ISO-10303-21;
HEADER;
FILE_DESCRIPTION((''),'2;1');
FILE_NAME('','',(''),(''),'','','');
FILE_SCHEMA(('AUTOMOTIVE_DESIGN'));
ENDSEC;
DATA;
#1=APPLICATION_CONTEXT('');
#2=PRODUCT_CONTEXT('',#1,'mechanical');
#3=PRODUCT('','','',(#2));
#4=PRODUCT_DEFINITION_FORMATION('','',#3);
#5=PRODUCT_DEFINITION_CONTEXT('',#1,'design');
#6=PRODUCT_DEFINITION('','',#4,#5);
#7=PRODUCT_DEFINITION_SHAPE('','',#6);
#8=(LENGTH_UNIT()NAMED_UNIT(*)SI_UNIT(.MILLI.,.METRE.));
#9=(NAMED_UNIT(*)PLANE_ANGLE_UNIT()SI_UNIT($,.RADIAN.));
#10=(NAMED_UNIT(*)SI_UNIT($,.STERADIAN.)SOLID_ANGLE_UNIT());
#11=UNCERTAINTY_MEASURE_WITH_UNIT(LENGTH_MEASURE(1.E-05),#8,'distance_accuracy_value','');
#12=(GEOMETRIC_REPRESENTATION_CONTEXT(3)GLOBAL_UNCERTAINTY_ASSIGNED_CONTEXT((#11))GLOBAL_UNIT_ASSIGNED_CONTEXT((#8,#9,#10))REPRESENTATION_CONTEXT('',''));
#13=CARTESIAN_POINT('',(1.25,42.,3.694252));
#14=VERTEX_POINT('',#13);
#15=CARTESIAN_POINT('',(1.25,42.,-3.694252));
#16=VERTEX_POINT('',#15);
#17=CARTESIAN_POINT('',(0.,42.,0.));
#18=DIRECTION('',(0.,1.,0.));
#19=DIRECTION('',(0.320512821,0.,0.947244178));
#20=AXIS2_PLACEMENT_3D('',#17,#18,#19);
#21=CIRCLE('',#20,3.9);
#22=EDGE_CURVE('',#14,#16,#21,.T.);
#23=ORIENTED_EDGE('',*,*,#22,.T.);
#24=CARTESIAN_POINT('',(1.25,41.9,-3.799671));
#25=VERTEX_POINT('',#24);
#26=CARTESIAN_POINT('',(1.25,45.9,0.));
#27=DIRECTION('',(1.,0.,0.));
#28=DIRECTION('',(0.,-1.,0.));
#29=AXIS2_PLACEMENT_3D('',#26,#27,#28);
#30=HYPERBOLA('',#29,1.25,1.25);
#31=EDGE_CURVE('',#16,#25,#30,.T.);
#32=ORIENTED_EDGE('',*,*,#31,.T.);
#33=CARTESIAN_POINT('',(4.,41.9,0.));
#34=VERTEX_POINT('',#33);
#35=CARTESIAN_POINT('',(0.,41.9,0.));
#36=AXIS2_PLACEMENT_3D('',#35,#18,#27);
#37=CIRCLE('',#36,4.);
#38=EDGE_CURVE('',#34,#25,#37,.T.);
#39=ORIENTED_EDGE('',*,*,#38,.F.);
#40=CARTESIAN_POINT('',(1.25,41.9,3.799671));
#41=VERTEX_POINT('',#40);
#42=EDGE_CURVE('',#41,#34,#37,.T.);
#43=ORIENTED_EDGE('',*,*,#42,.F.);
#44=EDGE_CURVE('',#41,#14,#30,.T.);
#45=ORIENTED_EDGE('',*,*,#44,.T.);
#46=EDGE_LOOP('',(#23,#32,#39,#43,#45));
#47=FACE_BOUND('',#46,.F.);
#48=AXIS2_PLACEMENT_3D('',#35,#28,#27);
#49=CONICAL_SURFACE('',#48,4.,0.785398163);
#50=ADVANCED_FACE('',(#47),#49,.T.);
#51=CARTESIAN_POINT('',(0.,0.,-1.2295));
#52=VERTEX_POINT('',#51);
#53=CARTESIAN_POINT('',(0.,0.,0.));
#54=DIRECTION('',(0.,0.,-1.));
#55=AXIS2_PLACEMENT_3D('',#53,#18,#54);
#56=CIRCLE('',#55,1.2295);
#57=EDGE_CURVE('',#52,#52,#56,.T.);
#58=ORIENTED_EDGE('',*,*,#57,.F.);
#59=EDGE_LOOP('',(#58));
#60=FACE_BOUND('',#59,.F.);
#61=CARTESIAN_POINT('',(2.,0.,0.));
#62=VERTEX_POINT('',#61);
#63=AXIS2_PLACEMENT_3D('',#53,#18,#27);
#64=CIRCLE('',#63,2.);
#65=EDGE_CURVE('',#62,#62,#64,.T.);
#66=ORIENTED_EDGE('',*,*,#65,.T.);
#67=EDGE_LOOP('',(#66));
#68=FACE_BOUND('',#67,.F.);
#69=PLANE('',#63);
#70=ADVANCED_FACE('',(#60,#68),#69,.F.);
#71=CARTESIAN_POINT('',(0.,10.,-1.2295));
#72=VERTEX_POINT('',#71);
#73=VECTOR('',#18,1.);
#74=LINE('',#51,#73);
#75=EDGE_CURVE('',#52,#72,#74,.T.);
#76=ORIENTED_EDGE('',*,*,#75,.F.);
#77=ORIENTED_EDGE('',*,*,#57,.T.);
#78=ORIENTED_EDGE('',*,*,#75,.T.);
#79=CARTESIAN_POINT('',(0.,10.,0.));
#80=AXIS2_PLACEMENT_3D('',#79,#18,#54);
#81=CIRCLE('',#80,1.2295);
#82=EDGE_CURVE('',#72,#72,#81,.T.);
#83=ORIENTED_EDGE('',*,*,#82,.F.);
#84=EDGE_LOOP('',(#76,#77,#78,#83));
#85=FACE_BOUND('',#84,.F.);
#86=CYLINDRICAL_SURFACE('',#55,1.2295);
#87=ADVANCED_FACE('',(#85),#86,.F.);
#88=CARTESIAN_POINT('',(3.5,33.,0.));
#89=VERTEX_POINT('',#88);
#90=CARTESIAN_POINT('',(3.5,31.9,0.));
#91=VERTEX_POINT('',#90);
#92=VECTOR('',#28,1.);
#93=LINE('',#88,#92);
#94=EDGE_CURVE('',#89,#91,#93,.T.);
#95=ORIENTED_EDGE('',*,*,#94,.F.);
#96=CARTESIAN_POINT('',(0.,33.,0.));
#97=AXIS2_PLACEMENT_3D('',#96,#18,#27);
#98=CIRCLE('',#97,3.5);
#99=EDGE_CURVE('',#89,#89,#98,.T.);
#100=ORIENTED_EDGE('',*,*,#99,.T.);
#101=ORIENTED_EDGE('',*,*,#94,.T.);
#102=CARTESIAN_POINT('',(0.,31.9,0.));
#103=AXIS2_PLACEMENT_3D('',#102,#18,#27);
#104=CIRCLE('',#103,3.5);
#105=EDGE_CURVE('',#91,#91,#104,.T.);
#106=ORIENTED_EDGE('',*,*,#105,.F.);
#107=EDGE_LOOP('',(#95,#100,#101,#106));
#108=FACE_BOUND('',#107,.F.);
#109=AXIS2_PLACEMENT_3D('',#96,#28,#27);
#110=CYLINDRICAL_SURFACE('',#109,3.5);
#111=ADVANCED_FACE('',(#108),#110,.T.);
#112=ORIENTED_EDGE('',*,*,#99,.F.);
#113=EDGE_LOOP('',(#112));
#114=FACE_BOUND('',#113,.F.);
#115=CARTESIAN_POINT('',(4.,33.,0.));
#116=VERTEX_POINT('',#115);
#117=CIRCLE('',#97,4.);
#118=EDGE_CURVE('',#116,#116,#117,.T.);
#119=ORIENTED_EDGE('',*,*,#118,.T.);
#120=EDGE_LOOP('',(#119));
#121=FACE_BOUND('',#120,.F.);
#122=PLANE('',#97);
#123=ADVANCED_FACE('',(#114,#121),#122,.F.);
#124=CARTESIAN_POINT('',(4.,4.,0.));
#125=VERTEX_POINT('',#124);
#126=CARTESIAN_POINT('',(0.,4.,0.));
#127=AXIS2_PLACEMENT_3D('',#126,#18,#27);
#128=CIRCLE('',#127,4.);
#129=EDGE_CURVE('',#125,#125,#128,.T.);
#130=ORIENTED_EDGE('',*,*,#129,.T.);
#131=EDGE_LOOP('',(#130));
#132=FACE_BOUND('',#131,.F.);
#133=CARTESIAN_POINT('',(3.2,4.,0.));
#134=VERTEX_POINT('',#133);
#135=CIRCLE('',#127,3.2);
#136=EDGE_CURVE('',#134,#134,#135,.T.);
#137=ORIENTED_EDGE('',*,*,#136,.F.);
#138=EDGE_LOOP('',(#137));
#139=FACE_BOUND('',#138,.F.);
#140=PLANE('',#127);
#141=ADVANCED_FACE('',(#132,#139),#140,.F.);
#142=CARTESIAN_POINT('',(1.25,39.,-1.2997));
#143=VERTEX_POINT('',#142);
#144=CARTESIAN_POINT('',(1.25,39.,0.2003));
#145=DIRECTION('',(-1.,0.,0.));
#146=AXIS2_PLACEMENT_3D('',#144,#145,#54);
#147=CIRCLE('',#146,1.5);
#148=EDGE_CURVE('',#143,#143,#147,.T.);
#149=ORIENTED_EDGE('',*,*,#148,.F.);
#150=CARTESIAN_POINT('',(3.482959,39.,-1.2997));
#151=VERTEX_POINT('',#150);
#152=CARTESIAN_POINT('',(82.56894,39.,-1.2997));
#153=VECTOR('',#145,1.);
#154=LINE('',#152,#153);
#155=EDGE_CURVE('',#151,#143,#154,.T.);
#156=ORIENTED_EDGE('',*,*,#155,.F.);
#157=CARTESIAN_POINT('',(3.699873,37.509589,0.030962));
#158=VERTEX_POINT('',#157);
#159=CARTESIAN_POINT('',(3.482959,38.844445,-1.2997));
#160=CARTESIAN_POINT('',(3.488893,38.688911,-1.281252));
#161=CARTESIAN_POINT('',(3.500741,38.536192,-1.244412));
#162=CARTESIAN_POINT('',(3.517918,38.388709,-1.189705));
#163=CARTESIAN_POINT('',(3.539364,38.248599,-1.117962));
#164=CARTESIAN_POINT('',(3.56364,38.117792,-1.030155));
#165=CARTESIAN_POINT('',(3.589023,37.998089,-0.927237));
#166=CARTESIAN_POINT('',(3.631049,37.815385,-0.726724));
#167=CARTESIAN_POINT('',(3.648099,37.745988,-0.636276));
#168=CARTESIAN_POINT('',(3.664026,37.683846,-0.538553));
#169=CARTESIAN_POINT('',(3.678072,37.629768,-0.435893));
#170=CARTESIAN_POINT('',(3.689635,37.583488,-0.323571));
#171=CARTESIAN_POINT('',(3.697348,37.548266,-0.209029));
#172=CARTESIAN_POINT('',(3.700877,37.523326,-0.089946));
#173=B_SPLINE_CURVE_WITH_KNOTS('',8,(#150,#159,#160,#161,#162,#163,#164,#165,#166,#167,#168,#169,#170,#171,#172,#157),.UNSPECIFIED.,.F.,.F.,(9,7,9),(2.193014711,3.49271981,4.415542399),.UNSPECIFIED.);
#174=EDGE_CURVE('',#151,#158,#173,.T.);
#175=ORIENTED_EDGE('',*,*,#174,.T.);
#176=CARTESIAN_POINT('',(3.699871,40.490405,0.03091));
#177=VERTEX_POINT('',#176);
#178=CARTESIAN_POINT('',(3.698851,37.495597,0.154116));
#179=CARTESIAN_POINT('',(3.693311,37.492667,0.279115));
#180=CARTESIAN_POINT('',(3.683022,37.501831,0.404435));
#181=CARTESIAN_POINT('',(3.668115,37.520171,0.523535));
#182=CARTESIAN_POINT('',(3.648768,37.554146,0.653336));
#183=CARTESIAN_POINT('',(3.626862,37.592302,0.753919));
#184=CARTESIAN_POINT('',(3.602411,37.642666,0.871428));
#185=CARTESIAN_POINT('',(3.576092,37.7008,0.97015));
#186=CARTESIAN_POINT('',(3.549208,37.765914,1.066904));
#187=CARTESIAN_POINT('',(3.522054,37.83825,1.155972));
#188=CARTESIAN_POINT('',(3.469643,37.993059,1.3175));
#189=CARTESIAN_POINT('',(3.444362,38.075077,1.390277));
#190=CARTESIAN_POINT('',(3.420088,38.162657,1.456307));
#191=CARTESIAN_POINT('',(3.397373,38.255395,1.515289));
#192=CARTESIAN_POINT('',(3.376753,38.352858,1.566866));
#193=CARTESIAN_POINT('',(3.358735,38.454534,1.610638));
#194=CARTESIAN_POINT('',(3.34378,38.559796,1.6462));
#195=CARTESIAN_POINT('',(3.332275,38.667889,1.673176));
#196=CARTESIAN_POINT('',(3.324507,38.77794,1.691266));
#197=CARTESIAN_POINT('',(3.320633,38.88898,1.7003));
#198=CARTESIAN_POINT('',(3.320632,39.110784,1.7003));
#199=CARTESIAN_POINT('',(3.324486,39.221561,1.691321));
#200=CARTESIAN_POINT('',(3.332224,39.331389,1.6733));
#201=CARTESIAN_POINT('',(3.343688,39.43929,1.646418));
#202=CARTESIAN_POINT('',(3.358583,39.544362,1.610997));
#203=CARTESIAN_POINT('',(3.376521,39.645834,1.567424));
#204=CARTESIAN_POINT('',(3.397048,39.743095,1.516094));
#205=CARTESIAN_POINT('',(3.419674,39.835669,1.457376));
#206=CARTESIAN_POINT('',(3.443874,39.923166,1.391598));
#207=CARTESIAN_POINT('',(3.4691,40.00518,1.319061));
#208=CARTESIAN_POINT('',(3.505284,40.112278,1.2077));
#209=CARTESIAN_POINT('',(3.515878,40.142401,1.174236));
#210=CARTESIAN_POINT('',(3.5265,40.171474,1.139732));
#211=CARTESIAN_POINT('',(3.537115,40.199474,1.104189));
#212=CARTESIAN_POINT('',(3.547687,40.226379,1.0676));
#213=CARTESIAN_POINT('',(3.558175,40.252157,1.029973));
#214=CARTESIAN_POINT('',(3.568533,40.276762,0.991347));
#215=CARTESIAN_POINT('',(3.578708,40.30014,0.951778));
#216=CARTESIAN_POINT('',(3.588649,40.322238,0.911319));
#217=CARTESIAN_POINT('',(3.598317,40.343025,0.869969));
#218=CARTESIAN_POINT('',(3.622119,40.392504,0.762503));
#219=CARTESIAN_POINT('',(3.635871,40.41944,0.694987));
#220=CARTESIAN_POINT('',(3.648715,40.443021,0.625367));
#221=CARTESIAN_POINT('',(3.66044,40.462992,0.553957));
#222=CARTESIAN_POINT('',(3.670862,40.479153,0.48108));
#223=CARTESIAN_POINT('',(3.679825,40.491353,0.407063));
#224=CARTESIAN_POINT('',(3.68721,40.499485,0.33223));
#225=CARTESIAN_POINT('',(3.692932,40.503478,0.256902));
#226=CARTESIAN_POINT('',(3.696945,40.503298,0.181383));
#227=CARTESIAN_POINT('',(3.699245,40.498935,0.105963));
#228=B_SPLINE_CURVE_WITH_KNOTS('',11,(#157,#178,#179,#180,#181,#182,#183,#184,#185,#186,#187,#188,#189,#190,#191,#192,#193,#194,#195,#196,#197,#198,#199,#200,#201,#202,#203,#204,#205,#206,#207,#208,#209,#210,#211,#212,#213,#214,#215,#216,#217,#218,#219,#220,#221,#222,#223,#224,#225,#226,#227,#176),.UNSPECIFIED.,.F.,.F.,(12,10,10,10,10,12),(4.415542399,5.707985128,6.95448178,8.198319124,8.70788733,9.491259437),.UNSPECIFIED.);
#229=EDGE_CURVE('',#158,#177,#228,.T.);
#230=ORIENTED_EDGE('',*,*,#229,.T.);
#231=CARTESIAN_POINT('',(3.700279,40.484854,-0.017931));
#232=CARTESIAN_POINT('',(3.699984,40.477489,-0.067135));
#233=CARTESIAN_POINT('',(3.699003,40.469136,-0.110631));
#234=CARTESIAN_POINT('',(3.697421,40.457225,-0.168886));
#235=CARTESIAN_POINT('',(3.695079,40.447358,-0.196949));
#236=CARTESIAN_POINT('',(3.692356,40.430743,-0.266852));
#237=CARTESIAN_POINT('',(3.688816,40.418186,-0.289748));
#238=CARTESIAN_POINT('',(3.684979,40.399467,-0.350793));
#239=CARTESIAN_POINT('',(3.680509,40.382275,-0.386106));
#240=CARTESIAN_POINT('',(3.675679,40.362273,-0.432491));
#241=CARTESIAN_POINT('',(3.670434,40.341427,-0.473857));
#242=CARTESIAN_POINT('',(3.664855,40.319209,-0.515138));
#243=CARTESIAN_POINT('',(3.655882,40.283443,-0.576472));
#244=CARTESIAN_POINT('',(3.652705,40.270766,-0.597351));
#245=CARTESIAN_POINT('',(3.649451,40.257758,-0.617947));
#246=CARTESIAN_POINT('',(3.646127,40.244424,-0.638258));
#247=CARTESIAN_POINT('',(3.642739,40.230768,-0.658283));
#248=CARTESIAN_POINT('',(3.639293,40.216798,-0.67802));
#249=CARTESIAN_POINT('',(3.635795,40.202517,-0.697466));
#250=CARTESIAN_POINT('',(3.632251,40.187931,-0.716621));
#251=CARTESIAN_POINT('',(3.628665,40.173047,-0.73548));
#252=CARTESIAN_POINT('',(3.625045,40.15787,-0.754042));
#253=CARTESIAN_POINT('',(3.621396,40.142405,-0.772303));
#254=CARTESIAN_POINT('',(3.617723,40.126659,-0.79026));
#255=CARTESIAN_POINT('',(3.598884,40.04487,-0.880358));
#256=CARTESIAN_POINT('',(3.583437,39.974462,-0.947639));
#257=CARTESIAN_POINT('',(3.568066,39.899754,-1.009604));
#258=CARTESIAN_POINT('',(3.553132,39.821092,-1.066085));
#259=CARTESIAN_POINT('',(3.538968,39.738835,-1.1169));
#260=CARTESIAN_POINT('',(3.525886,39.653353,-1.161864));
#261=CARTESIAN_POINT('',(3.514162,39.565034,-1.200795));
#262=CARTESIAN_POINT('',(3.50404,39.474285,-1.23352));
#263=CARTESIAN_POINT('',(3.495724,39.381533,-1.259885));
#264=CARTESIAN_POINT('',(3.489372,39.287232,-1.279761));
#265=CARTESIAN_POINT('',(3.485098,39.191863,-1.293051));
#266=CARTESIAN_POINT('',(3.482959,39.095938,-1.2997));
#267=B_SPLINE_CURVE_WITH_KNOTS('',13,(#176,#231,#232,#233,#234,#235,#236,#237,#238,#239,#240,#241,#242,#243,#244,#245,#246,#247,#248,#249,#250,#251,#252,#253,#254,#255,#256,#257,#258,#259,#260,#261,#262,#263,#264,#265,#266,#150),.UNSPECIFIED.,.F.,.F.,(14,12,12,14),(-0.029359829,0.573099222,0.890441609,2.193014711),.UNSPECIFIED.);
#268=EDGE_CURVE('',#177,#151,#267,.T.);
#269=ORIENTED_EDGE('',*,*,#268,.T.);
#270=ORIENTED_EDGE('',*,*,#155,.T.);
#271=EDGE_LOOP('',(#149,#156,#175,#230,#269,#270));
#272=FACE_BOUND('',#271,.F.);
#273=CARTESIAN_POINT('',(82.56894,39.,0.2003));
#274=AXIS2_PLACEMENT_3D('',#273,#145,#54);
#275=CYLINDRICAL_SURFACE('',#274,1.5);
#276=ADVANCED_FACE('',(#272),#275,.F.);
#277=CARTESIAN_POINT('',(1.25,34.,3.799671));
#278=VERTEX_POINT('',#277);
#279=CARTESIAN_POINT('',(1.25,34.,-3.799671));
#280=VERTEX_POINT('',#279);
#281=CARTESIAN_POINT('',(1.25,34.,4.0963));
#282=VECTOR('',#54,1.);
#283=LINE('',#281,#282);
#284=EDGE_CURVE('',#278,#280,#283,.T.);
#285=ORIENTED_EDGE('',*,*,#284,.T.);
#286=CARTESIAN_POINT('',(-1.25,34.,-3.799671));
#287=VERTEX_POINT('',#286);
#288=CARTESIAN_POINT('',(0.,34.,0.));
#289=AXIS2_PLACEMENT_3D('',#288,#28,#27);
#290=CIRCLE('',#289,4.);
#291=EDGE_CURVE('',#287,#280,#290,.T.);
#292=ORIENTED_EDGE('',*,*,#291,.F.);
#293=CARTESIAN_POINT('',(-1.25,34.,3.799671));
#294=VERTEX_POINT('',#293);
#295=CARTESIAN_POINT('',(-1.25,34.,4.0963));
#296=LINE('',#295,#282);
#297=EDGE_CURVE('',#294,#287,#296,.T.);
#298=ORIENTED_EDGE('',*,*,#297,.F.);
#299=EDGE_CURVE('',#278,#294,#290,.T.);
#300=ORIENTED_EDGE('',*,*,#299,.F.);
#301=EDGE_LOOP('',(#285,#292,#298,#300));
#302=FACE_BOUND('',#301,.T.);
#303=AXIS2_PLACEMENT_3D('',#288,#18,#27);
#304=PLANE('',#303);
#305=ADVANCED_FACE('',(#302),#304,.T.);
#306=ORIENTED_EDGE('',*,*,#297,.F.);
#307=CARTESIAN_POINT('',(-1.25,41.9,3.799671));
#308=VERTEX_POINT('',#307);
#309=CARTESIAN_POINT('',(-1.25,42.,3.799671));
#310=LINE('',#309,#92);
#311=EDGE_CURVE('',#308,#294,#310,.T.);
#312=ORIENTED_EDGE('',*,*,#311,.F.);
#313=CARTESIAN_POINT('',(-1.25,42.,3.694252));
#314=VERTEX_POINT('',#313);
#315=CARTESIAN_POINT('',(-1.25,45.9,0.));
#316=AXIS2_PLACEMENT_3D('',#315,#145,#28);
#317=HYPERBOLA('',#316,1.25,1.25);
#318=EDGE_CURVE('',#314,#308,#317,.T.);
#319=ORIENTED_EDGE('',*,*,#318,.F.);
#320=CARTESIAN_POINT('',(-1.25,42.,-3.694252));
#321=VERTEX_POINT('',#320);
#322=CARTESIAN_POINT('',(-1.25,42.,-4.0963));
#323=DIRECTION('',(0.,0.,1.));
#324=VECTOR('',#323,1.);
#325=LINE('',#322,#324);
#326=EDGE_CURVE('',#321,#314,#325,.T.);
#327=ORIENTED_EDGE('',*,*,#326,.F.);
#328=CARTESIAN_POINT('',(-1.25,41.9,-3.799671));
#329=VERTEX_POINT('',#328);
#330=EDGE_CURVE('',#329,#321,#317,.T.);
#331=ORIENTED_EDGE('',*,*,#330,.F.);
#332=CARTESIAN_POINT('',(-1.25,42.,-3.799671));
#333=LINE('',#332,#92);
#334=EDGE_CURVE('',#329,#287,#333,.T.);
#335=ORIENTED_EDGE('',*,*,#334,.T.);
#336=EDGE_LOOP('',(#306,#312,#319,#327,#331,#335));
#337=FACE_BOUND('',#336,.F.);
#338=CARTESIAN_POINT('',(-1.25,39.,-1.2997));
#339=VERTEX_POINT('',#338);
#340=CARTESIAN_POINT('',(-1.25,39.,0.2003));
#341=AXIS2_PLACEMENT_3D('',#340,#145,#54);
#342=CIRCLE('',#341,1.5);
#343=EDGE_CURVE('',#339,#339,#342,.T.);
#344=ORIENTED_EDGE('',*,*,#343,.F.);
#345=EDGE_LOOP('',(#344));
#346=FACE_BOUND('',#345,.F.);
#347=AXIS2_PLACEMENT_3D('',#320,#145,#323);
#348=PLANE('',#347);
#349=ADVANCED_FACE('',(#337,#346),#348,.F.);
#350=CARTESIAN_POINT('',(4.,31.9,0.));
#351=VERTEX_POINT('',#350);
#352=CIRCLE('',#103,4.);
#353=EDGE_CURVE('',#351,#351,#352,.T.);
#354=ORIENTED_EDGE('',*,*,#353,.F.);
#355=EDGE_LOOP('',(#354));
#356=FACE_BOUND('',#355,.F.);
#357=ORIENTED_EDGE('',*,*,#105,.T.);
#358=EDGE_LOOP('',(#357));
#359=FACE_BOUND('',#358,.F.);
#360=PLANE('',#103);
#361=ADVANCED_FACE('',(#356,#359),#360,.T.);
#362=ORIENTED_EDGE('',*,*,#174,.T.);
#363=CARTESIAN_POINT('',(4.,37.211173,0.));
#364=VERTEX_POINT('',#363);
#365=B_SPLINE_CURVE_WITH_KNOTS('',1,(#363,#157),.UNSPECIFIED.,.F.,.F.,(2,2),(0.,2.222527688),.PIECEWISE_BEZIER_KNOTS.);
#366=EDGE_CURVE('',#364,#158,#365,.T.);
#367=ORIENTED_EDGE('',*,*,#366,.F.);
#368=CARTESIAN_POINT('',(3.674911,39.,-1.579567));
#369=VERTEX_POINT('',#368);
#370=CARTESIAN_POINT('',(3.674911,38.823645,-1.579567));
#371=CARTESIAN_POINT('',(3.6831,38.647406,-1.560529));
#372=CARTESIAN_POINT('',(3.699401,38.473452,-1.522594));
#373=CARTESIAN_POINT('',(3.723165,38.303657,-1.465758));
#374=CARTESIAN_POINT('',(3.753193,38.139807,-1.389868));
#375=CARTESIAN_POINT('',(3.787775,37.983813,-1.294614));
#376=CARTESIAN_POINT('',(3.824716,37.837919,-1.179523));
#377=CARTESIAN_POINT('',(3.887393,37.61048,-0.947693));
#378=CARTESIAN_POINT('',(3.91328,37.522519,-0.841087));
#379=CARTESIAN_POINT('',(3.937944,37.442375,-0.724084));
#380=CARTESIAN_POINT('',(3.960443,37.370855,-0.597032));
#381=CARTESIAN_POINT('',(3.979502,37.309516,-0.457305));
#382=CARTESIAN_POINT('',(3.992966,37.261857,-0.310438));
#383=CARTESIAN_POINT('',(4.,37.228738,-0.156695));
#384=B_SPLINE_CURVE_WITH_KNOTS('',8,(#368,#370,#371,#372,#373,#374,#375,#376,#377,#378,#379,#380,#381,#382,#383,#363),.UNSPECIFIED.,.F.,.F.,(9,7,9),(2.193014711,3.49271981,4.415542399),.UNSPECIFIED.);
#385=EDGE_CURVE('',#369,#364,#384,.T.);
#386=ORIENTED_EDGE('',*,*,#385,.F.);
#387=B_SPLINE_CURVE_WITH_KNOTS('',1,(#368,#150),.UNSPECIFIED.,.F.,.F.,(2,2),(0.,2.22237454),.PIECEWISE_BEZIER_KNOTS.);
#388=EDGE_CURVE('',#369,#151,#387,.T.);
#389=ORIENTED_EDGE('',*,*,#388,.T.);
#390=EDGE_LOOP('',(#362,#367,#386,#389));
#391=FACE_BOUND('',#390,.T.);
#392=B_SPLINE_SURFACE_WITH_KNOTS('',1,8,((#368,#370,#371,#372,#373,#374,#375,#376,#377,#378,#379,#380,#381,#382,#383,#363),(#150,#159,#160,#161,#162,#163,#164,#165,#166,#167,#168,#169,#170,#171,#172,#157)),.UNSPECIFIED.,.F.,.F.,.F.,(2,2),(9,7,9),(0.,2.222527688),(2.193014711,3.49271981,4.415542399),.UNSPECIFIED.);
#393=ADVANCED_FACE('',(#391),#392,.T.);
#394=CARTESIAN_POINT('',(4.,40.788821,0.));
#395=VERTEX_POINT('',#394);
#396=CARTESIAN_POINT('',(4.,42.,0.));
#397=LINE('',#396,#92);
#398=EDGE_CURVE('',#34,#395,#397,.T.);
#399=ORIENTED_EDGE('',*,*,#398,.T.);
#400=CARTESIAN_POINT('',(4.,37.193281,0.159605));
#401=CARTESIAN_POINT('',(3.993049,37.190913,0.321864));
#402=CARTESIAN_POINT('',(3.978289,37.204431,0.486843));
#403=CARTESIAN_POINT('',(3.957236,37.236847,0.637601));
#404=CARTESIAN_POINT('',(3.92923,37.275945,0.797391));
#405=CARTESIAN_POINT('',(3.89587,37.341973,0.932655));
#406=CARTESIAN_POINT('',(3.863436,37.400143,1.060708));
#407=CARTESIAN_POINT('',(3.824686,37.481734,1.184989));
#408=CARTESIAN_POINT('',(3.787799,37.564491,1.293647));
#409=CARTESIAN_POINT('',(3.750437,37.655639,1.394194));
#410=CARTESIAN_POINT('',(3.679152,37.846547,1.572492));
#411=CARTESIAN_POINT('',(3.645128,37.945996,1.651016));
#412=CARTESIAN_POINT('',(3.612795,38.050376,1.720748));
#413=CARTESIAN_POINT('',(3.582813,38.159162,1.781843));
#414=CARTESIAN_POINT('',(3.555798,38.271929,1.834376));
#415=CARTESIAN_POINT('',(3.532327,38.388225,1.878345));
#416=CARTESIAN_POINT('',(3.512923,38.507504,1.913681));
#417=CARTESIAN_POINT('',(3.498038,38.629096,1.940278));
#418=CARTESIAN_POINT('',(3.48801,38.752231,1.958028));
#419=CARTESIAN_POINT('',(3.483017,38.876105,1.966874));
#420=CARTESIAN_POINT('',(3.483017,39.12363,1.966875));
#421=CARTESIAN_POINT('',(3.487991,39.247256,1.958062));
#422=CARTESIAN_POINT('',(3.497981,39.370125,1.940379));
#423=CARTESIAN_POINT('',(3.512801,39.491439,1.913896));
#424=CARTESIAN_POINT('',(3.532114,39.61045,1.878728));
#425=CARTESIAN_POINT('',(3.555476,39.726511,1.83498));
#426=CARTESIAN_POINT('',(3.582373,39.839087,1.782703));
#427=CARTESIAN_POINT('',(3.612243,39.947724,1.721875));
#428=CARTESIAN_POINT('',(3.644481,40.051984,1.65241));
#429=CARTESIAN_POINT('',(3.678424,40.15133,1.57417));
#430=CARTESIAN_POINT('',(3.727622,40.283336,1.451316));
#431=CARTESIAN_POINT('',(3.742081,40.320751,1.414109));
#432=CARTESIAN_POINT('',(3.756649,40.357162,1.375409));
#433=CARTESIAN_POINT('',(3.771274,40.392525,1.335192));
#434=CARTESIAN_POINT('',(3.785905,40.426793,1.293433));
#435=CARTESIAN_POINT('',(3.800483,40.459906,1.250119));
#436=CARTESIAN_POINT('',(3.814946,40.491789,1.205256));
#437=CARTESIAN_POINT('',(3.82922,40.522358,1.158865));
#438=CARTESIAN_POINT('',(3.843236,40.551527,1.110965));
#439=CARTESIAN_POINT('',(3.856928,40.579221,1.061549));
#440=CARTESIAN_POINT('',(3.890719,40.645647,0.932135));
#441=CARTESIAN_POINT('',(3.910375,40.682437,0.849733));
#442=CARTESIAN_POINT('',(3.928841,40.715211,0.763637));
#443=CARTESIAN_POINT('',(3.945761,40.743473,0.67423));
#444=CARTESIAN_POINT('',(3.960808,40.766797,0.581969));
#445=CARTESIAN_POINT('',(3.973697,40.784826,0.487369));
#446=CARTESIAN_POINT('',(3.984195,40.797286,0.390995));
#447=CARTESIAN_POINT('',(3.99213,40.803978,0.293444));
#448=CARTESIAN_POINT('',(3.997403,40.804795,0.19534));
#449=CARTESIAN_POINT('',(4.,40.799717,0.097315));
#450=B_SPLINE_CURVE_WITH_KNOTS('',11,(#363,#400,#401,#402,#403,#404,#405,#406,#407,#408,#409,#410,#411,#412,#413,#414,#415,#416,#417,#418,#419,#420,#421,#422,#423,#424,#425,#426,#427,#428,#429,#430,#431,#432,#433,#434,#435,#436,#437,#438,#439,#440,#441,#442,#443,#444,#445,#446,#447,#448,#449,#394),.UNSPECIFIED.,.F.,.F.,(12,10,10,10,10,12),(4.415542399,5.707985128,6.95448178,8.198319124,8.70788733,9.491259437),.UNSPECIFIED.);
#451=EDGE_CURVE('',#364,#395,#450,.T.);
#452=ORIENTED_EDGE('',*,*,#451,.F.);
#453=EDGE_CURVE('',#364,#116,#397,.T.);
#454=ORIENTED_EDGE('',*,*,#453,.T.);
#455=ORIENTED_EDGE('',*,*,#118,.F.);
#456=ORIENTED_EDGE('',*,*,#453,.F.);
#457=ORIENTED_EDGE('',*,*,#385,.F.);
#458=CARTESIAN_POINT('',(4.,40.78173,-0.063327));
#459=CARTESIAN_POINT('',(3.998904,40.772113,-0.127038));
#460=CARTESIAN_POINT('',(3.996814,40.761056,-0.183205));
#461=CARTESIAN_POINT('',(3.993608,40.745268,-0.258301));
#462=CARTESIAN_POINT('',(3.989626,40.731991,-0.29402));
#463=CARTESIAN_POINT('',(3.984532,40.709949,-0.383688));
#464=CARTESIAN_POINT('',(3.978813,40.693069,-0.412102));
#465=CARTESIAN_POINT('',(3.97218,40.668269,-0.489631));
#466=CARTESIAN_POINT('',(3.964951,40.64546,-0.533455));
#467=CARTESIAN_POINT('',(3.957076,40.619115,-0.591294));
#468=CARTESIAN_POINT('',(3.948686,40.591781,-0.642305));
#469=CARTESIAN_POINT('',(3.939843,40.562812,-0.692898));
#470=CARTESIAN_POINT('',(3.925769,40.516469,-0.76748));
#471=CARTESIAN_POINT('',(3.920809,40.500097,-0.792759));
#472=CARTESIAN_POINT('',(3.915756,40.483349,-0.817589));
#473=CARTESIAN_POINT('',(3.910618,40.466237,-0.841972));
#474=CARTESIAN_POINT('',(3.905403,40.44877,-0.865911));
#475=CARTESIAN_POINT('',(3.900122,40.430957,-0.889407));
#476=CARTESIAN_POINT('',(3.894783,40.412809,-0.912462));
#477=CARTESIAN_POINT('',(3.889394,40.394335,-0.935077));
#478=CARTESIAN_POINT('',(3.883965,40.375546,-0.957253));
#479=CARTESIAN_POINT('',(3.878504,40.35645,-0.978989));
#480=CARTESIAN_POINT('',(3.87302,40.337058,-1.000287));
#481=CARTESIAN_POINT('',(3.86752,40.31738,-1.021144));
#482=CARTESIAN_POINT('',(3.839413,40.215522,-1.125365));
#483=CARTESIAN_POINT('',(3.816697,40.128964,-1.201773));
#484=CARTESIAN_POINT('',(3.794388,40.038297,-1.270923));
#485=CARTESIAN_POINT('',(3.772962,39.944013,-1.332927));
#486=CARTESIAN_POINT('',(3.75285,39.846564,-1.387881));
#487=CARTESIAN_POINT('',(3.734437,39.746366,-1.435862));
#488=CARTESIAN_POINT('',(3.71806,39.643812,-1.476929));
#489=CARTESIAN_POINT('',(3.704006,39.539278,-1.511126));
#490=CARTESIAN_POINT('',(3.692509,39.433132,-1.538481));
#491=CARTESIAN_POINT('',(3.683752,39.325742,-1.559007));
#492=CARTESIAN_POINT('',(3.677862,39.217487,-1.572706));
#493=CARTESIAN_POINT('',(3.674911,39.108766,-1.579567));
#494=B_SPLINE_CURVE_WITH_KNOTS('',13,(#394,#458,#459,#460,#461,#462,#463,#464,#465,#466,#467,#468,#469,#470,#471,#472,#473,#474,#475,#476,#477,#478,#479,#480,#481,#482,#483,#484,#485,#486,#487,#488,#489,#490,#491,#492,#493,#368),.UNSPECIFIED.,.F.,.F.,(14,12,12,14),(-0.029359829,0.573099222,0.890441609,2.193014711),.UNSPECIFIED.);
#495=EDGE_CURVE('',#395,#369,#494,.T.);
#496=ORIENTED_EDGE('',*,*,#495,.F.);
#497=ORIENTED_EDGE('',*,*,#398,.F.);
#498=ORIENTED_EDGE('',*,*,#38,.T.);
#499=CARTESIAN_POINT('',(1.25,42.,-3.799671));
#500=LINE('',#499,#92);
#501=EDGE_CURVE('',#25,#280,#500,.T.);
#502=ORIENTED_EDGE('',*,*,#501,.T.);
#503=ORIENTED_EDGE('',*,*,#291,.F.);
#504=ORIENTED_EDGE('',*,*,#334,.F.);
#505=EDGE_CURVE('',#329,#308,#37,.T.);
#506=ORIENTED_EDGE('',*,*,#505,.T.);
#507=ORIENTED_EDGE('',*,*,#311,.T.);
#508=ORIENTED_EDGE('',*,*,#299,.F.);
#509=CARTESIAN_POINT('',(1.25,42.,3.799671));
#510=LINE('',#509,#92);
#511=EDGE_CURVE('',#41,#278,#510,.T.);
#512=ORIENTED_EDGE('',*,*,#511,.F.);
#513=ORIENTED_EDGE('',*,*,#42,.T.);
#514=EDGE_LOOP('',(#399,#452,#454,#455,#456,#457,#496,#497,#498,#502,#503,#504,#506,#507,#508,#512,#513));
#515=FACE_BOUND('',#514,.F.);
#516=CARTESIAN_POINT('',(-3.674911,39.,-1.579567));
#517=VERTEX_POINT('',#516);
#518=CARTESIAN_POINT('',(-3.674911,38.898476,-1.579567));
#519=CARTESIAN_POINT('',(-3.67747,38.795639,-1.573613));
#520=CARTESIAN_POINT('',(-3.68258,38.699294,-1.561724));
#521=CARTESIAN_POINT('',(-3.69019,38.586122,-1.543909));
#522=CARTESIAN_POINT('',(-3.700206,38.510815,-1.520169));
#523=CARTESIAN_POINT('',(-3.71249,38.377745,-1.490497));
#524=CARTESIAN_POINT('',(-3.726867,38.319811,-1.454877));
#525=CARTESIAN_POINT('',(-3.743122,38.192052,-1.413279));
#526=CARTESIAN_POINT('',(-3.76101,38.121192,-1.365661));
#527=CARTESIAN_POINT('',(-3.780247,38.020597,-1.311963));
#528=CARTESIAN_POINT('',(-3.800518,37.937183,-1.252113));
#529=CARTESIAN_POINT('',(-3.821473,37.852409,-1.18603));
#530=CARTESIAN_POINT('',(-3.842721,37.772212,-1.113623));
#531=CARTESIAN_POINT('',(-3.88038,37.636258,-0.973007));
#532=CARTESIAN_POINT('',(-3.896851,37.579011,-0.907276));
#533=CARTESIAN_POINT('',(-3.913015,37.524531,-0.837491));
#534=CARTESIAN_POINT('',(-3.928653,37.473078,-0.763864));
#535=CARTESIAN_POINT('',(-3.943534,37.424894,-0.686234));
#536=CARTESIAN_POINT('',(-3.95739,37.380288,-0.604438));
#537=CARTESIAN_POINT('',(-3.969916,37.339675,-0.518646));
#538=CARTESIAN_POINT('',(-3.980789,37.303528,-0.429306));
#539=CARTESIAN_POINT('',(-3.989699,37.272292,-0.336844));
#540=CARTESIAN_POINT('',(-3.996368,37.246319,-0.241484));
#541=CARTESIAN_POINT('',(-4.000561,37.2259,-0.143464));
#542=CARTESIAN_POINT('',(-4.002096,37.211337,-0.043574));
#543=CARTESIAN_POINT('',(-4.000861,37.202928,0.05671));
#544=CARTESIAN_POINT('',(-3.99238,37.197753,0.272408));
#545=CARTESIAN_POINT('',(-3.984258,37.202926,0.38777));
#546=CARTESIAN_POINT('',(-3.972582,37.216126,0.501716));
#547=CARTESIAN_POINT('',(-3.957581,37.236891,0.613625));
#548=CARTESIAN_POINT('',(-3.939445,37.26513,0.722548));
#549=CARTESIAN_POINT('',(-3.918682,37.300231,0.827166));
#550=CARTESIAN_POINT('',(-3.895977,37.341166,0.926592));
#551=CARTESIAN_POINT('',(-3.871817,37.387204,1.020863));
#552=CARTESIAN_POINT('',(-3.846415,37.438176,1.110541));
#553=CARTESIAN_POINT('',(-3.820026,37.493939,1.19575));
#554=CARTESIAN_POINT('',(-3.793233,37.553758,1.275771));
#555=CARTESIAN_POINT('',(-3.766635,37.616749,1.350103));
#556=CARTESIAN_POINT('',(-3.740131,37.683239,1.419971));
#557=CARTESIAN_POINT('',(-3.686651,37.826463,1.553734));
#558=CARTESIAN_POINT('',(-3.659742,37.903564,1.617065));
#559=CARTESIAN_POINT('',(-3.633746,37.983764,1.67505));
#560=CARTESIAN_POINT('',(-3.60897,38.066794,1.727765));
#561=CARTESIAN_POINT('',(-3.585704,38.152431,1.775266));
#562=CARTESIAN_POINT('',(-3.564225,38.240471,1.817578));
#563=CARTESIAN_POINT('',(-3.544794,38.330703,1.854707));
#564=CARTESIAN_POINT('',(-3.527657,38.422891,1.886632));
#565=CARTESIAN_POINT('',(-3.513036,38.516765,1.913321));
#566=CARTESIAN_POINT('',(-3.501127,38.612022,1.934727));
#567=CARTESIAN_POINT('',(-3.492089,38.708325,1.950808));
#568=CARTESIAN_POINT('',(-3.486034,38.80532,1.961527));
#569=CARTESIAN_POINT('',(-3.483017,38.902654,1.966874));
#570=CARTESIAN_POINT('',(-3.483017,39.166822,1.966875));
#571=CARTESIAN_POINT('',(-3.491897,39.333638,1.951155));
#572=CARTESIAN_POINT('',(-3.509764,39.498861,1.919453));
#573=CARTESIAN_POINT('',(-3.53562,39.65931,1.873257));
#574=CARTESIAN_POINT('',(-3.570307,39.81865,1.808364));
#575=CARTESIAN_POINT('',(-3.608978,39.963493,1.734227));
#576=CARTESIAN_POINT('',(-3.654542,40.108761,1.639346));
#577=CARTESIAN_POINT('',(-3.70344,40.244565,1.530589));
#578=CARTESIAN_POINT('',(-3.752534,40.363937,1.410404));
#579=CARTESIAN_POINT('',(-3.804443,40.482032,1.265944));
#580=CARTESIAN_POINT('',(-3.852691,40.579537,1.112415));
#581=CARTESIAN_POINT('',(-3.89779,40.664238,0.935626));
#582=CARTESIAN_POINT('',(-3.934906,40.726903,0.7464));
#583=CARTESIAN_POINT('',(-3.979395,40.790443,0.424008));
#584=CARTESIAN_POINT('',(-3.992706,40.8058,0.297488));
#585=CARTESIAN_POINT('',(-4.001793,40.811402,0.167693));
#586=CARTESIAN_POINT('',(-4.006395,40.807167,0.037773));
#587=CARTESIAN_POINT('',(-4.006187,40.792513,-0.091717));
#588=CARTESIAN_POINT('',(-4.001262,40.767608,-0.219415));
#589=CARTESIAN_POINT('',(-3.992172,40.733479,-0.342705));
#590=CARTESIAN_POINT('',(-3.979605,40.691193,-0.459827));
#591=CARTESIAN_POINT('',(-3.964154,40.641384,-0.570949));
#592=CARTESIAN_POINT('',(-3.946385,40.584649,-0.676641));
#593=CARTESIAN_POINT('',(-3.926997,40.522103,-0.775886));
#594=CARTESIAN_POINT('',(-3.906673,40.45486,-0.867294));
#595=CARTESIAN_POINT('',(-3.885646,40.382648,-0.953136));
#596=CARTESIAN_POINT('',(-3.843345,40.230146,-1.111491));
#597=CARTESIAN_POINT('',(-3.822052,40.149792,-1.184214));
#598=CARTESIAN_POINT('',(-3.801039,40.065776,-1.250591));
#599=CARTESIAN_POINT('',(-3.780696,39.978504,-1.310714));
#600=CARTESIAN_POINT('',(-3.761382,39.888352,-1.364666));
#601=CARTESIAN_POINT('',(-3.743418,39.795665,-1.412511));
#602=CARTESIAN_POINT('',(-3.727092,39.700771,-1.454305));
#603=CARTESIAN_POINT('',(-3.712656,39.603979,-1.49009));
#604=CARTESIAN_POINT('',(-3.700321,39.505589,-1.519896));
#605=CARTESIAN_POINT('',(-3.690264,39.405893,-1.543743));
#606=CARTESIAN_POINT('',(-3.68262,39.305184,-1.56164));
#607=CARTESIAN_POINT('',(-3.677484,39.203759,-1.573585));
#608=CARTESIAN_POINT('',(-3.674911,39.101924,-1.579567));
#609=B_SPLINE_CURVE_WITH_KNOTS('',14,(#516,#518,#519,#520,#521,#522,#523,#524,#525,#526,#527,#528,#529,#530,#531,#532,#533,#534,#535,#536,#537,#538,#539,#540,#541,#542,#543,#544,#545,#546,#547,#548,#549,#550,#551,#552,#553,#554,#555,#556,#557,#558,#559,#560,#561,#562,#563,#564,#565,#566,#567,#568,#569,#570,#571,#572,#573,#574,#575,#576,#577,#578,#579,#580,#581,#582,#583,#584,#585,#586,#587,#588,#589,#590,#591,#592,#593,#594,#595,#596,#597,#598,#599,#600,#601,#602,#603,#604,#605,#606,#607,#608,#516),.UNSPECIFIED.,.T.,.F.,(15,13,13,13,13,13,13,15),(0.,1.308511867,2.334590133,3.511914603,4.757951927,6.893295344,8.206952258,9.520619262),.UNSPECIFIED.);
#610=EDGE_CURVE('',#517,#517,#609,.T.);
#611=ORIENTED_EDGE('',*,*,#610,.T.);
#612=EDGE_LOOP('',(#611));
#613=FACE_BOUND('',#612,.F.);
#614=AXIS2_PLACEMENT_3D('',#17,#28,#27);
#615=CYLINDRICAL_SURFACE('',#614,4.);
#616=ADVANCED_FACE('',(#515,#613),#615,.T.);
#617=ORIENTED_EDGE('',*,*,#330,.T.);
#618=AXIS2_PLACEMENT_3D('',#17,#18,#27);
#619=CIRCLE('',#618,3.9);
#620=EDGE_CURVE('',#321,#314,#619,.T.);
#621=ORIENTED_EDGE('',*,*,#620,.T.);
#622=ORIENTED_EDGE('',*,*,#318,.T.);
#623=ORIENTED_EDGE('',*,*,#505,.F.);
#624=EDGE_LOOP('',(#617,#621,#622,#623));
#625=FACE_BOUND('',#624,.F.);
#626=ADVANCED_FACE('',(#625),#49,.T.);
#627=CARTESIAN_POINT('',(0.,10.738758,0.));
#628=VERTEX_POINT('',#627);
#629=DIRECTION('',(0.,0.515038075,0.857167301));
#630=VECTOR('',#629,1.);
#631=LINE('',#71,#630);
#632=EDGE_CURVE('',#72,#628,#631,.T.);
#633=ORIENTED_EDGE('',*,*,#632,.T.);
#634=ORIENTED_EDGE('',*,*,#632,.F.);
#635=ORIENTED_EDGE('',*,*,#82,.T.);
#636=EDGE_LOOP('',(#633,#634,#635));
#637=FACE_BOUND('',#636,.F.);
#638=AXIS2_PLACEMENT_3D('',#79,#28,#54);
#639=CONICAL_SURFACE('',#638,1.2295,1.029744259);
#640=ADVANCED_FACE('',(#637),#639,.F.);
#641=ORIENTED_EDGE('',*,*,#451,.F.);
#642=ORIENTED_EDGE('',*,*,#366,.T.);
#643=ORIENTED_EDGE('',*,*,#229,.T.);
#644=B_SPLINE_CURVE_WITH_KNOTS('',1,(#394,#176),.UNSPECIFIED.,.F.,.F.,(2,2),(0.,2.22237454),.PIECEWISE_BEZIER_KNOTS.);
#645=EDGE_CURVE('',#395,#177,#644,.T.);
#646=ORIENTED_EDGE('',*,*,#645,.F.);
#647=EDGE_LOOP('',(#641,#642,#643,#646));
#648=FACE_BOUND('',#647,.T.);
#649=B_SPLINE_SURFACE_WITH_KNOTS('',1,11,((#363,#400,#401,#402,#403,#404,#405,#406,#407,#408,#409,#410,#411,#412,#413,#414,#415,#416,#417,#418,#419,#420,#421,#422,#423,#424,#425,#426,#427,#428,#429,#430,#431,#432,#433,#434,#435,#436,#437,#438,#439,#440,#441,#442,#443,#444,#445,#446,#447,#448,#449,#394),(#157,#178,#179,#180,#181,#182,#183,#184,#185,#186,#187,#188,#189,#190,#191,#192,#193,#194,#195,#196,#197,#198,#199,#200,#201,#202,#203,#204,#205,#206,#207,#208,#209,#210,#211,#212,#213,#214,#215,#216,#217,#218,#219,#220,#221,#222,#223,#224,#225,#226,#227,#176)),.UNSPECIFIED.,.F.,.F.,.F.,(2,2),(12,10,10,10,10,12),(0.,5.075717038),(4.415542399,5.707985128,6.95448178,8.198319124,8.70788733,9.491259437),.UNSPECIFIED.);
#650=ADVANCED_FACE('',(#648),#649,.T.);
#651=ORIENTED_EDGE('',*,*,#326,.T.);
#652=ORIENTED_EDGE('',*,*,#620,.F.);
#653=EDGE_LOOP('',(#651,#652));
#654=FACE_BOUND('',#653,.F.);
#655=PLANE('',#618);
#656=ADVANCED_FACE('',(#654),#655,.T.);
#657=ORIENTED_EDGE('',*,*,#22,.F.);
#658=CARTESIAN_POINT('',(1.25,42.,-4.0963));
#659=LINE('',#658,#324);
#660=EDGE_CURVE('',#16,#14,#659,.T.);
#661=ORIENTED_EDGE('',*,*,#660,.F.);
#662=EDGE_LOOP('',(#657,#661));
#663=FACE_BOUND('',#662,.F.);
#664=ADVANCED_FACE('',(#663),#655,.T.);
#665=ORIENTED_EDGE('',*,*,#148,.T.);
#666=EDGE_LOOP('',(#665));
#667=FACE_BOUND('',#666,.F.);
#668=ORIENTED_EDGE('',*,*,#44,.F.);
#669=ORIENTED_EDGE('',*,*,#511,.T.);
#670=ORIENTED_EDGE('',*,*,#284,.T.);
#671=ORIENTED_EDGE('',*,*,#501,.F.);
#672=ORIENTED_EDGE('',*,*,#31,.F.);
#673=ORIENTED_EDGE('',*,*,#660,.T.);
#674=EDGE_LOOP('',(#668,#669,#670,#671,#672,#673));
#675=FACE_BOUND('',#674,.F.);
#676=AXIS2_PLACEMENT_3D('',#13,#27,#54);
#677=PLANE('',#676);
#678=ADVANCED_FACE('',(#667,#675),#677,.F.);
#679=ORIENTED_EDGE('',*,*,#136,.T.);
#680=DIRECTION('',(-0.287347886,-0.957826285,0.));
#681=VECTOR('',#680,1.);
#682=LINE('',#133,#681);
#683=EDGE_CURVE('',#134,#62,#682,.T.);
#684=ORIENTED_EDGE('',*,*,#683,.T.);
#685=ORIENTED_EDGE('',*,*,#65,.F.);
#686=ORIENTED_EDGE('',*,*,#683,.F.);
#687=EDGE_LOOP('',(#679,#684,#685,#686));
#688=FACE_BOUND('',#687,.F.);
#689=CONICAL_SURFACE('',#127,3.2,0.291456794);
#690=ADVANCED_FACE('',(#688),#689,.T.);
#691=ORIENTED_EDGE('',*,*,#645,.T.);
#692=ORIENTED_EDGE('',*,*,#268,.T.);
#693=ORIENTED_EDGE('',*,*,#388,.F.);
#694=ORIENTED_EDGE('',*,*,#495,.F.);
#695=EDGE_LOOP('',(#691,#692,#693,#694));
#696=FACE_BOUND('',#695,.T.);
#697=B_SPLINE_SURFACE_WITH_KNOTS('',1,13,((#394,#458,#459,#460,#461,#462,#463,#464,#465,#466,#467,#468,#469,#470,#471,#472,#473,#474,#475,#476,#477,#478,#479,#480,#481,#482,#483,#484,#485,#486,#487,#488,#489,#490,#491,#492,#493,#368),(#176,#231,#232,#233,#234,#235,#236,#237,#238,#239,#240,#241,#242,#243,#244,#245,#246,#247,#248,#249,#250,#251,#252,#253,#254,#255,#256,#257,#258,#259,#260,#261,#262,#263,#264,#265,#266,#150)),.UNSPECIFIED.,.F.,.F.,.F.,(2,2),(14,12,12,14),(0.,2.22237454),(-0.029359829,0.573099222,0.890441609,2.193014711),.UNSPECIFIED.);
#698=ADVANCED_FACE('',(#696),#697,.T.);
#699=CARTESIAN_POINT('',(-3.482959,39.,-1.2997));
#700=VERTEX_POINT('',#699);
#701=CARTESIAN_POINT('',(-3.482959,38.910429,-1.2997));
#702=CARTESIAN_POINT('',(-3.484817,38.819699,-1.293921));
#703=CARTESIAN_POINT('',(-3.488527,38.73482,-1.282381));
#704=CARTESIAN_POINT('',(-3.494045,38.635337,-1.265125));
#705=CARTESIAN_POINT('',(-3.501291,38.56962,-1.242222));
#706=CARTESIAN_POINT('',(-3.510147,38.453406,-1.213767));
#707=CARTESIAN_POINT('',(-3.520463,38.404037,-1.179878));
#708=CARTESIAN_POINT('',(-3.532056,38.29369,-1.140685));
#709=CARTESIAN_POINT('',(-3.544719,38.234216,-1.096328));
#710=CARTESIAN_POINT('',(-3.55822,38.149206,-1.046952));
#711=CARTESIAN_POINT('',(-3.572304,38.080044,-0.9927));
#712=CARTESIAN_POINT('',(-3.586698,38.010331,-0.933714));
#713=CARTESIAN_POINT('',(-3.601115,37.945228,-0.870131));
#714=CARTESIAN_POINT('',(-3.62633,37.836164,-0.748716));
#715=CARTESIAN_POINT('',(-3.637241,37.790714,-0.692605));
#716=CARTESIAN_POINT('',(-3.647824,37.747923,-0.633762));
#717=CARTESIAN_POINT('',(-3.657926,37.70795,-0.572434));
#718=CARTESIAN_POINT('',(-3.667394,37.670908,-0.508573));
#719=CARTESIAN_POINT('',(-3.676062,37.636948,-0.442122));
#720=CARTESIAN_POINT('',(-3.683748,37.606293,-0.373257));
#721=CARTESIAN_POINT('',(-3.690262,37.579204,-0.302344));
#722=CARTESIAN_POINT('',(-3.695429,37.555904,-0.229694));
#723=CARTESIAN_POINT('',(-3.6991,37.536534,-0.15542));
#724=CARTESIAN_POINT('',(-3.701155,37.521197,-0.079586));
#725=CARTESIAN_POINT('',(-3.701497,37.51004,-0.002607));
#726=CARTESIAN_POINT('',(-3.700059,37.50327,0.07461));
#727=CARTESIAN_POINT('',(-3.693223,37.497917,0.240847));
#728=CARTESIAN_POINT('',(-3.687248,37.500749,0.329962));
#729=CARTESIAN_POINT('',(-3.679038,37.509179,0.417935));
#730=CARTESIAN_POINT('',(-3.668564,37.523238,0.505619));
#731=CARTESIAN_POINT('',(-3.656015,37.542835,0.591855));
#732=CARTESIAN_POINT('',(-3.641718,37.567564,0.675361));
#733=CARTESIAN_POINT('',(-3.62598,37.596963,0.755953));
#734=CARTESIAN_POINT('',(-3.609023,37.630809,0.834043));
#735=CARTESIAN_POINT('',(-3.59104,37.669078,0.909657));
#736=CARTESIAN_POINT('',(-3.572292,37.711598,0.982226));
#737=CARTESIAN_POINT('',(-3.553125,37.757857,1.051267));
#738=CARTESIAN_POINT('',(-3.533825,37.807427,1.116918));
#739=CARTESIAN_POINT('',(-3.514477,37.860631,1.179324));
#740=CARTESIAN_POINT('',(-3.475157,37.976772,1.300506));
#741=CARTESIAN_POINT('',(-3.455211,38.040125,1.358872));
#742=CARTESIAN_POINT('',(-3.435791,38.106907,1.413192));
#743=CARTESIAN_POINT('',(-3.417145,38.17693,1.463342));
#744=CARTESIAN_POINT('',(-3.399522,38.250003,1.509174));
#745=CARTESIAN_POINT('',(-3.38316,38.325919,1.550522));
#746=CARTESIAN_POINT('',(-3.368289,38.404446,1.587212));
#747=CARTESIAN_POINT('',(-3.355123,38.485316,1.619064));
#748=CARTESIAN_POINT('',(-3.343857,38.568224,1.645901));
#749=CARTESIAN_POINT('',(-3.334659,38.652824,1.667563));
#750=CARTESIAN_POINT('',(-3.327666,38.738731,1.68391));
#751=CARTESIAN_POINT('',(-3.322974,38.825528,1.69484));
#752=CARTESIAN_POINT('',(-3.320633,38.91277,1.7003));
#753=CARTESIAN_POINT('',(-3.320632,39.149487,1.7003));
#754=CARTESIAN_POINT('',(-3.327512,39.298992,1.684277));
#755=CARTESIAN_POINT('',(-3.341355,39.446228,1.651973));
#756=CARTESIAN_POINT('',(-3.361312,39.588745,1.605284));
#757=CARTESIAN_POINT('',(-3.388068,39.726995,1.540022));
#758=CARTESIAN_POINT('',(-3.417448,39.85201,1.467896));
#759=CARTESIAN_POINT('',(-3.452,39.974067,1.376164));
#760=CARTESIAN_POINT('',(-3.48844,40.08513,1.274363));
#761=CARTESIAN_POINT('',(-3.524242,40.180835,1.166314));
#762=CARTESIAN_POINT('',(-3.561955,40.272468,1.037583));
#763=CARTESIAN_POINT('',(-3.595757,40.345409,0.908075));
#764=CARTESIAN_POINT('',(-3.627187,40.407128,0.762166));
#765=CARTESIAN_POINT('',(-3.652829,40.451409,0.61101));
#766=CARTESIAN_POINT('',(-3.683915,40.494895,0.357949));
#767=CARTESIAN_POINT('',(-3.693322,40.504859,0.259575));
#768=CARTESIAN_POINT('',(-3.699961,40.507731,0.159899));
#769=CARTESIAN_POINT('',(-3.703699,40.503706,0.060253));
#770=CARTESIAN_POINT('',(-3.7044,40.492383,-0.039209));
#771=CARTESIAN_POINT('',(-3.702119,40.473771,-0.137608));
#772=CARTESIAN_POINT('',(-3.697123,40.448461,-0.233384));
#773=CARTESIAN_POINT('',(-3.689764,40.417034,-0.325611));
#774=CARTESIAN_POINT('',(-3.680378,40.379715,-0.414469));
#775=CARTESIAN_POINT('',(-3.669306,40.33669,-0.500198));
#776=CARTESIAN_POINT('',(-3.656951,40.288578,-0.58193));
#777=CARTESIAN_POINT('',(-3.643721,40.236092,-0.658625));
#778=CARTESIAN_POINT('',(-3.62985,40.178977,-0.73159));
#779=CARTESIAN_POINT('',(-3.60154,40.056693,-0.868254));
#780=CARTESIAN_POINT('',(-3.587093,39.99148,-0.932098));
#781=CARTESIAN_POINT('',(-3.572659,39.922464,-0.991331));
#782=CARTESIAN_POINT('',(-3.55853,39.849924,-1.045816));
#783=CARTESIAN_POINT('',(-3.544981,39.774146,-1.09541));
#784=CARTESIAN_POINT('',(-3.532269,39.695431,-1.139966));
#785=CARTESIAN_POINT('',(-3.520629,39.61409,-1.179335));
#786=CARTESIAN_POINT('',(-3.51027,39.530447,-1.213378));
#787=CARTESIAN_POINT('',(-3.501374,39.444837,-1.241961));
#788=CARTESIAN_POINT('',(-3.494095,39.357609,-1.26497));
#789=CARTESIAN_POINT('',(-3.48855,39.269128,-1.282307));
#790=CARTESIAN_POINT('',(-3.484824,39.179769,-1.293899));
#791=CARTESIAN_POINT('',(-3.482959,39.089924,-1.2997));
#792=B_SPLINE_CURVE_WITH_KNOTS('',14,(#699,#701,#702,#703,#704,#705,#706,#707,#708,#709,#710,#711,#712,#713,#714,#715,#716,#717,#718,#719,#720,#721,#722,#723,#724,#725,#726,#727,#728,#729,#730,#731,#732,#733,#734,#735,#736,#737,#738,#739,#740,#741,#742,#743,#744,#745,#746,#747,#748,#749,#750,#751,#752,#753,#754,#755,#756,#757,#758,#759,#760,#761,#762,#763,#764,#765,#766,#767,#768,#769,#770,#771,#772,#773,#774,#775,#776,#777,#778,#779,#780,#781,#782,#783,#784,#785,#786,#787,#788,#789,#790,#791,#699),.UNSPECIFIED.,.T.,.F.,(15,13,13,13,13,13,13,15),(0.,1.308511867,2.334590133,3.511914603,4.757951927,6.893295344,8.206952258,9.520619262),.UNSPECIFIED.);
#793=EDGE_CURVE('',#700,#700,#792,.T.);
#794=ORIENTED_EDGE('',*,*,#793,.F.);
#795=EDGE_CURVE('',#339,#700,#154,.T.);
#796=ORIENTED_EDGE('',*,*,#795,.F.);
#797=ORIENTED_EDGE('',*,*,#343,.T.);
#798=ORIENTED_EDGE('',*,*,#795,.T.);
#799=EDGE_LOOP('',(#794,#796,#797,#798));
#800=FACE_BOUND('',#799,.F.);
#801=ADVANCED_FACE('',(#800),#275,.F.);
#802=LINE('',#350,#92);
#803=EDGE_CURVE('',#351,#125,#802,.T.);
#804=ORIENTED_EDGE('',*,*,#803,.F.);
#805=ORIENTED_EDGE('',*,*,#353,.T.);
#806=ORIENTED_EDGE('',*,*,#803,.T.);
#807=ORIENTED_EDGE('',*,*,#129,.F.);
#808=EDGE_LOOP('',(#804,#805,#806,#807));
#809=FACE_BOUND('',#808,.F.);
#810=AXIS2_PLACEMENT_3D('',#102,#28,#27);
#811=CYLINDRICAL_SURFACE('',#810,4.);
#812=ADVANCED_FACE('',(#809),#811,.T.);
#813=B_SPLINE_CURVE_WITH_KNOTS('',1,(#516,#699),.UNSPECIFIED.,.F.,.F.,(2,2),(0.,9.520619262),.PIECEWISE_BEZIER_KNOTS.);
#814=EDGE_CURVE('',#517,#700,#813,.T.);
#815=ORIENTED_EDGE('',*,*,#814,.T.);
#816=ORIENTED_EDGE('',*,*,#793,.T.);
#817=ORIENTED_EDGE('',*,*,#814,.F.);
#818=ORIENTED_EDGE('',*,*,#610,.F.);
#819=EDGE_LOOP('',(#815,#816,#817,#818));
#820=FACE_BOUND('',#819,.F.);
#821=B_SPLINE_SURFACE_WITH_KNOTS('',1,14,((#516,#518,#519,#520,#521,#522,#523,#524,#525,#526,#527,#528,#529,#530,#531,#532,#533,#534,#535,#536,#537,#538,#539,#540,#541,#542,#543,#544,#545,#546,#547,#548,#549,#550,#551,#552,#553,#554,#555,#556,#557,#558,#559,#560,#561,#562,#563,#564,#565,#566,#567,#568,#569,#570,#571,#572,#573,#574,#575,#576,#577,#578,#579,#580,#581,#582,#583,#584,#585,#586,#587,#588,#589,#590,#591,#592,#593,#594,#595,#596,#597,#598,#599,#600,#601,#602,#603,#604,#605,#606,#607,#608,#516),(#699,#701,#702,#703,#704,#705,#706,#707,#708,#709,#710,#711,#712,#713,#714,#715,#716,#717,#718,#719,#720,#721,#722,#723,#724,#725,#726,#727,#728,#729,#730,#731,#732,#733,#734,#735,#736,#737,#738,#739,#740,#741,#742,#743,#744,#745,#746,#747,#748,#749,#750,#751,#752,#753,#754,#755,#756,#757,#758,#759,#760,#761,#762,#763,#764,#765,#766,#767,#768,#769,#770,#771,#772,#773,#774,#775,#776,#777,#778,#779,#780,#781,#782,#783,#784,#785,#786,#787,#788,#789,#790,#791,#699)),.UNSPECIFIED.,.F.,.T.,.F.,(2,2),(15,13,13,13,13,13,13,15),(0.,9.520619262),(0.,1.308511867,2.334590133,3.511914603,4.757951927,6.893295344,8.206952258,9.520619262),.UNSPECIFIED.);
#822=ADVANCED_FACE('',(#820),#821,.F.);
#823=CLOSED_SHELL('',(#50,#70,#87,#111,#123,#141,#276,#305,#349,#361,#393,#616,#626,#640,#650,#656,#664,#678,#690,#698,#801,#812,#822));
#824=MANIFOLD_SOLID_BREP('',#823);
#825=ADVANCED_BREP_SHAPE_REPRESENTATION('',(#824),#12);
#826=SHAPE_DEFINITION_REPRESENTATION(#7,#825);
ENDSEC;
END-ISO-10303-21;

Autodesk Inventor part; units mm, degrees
ref_plane "YZ Plane" through (0, 0, 0) normal (1, 0, 0) x (0, 1, 0)
ref_plane "XZ Plane" through (0, 0, 0) normal (0, 1, 0) x (-1, 0, 0)
ref_plane "XY Plane" through (0, 0, 0) normal (0, 0, 1) x (1, 0, 0)
sketch "Эскиз1" plane through (0, 0, 0) normal (0, 0, 1) x (1, 0, 0)
  line L0 (0, 0) -> (0, 50)
  line L1 (0, 42) -> (4, 42)
  line L2 (4, 42) -> (4, 33)
  line L3 (4, 33) -> (3.5, 33)
  line L4 (3.5, 33) -> (3.5, 31.9)
  line L5 (3.5, 31.9) -> (4, 31.9)
  line L6 (4, 31.9) -> (4, 4)
  line L7 (2, 0) -> (0, 0)
  line L8 (4, 4) -> (3.2, 4)
  line L9 (3.2, 4) -> (2, 0)
  dimension "d0" = 50
  dimension "d2" = 8
  dimension "d3" = 0.5
  dimension "d7" = 9
  dimension "d38" = 1.1
  dimension "d39" = 0.8
  dimension "d40" = 4
  dimension "d41" = 42
revolve "Вращение1" add sketch "Эскиз1" angle 360 about axis through (0, 0, 0) along (0, 1, 0)
hole "Отверстие1" at (0, 0, 0) direction (0, 1, 0) diameter 2.459 depth 10 tip angle 118 thread size "M3x0.5" class "6H" standard "ANSI Metric M Profile"
chamfer "Фаска1" distance 0.1 angle 45 1 edges at (-4, 42, 0)
sketch "Эскиз2" plane through (0, 42, 0) normal (0, 1, 0) x (1, 0, 0)
  circle A0 centre (0, 0) radius 3.9 projected
  line L0 (1.25, 4.0963) -> (-1.25, 4.0963)
  line L1 (-1.25, 4.0963) -> (-1.25, -4.0963)
  line L2 (-1.25, -4.0963) -> (1.25, -4.0963)
  line L3 (1.25, -4.0963) -> (1.25, 4.0963)
  line L4 (1.25, 4.0963) -> (-1.25, -4.0963) construction
  line L5 (-1.25, 4.0963) -> (1.25, -4.0963) construction
  dimension "d23" = 2.5
extrude "Выдавливание1" cut sketch "Эскиз2" against normal blind 8 contours L3 A0 L1 | A0 L1 L0 L3 | L3 L2 L1 A0
hole "Отверстие2" at (-1.25, 39, 0.2003) direction (-1, 0, 0) diameter 3 end through all both
chamfer "Фаска2" distance 0.3 angle 45 4 edges at (3.8791, 39.9309, -0.9759) (3.8791, 38.0692, -0.9759) (3.6206, 38.9989, 1.7003) (-3.6206, 39.0021, 1.7003)
properties part number "kern"
